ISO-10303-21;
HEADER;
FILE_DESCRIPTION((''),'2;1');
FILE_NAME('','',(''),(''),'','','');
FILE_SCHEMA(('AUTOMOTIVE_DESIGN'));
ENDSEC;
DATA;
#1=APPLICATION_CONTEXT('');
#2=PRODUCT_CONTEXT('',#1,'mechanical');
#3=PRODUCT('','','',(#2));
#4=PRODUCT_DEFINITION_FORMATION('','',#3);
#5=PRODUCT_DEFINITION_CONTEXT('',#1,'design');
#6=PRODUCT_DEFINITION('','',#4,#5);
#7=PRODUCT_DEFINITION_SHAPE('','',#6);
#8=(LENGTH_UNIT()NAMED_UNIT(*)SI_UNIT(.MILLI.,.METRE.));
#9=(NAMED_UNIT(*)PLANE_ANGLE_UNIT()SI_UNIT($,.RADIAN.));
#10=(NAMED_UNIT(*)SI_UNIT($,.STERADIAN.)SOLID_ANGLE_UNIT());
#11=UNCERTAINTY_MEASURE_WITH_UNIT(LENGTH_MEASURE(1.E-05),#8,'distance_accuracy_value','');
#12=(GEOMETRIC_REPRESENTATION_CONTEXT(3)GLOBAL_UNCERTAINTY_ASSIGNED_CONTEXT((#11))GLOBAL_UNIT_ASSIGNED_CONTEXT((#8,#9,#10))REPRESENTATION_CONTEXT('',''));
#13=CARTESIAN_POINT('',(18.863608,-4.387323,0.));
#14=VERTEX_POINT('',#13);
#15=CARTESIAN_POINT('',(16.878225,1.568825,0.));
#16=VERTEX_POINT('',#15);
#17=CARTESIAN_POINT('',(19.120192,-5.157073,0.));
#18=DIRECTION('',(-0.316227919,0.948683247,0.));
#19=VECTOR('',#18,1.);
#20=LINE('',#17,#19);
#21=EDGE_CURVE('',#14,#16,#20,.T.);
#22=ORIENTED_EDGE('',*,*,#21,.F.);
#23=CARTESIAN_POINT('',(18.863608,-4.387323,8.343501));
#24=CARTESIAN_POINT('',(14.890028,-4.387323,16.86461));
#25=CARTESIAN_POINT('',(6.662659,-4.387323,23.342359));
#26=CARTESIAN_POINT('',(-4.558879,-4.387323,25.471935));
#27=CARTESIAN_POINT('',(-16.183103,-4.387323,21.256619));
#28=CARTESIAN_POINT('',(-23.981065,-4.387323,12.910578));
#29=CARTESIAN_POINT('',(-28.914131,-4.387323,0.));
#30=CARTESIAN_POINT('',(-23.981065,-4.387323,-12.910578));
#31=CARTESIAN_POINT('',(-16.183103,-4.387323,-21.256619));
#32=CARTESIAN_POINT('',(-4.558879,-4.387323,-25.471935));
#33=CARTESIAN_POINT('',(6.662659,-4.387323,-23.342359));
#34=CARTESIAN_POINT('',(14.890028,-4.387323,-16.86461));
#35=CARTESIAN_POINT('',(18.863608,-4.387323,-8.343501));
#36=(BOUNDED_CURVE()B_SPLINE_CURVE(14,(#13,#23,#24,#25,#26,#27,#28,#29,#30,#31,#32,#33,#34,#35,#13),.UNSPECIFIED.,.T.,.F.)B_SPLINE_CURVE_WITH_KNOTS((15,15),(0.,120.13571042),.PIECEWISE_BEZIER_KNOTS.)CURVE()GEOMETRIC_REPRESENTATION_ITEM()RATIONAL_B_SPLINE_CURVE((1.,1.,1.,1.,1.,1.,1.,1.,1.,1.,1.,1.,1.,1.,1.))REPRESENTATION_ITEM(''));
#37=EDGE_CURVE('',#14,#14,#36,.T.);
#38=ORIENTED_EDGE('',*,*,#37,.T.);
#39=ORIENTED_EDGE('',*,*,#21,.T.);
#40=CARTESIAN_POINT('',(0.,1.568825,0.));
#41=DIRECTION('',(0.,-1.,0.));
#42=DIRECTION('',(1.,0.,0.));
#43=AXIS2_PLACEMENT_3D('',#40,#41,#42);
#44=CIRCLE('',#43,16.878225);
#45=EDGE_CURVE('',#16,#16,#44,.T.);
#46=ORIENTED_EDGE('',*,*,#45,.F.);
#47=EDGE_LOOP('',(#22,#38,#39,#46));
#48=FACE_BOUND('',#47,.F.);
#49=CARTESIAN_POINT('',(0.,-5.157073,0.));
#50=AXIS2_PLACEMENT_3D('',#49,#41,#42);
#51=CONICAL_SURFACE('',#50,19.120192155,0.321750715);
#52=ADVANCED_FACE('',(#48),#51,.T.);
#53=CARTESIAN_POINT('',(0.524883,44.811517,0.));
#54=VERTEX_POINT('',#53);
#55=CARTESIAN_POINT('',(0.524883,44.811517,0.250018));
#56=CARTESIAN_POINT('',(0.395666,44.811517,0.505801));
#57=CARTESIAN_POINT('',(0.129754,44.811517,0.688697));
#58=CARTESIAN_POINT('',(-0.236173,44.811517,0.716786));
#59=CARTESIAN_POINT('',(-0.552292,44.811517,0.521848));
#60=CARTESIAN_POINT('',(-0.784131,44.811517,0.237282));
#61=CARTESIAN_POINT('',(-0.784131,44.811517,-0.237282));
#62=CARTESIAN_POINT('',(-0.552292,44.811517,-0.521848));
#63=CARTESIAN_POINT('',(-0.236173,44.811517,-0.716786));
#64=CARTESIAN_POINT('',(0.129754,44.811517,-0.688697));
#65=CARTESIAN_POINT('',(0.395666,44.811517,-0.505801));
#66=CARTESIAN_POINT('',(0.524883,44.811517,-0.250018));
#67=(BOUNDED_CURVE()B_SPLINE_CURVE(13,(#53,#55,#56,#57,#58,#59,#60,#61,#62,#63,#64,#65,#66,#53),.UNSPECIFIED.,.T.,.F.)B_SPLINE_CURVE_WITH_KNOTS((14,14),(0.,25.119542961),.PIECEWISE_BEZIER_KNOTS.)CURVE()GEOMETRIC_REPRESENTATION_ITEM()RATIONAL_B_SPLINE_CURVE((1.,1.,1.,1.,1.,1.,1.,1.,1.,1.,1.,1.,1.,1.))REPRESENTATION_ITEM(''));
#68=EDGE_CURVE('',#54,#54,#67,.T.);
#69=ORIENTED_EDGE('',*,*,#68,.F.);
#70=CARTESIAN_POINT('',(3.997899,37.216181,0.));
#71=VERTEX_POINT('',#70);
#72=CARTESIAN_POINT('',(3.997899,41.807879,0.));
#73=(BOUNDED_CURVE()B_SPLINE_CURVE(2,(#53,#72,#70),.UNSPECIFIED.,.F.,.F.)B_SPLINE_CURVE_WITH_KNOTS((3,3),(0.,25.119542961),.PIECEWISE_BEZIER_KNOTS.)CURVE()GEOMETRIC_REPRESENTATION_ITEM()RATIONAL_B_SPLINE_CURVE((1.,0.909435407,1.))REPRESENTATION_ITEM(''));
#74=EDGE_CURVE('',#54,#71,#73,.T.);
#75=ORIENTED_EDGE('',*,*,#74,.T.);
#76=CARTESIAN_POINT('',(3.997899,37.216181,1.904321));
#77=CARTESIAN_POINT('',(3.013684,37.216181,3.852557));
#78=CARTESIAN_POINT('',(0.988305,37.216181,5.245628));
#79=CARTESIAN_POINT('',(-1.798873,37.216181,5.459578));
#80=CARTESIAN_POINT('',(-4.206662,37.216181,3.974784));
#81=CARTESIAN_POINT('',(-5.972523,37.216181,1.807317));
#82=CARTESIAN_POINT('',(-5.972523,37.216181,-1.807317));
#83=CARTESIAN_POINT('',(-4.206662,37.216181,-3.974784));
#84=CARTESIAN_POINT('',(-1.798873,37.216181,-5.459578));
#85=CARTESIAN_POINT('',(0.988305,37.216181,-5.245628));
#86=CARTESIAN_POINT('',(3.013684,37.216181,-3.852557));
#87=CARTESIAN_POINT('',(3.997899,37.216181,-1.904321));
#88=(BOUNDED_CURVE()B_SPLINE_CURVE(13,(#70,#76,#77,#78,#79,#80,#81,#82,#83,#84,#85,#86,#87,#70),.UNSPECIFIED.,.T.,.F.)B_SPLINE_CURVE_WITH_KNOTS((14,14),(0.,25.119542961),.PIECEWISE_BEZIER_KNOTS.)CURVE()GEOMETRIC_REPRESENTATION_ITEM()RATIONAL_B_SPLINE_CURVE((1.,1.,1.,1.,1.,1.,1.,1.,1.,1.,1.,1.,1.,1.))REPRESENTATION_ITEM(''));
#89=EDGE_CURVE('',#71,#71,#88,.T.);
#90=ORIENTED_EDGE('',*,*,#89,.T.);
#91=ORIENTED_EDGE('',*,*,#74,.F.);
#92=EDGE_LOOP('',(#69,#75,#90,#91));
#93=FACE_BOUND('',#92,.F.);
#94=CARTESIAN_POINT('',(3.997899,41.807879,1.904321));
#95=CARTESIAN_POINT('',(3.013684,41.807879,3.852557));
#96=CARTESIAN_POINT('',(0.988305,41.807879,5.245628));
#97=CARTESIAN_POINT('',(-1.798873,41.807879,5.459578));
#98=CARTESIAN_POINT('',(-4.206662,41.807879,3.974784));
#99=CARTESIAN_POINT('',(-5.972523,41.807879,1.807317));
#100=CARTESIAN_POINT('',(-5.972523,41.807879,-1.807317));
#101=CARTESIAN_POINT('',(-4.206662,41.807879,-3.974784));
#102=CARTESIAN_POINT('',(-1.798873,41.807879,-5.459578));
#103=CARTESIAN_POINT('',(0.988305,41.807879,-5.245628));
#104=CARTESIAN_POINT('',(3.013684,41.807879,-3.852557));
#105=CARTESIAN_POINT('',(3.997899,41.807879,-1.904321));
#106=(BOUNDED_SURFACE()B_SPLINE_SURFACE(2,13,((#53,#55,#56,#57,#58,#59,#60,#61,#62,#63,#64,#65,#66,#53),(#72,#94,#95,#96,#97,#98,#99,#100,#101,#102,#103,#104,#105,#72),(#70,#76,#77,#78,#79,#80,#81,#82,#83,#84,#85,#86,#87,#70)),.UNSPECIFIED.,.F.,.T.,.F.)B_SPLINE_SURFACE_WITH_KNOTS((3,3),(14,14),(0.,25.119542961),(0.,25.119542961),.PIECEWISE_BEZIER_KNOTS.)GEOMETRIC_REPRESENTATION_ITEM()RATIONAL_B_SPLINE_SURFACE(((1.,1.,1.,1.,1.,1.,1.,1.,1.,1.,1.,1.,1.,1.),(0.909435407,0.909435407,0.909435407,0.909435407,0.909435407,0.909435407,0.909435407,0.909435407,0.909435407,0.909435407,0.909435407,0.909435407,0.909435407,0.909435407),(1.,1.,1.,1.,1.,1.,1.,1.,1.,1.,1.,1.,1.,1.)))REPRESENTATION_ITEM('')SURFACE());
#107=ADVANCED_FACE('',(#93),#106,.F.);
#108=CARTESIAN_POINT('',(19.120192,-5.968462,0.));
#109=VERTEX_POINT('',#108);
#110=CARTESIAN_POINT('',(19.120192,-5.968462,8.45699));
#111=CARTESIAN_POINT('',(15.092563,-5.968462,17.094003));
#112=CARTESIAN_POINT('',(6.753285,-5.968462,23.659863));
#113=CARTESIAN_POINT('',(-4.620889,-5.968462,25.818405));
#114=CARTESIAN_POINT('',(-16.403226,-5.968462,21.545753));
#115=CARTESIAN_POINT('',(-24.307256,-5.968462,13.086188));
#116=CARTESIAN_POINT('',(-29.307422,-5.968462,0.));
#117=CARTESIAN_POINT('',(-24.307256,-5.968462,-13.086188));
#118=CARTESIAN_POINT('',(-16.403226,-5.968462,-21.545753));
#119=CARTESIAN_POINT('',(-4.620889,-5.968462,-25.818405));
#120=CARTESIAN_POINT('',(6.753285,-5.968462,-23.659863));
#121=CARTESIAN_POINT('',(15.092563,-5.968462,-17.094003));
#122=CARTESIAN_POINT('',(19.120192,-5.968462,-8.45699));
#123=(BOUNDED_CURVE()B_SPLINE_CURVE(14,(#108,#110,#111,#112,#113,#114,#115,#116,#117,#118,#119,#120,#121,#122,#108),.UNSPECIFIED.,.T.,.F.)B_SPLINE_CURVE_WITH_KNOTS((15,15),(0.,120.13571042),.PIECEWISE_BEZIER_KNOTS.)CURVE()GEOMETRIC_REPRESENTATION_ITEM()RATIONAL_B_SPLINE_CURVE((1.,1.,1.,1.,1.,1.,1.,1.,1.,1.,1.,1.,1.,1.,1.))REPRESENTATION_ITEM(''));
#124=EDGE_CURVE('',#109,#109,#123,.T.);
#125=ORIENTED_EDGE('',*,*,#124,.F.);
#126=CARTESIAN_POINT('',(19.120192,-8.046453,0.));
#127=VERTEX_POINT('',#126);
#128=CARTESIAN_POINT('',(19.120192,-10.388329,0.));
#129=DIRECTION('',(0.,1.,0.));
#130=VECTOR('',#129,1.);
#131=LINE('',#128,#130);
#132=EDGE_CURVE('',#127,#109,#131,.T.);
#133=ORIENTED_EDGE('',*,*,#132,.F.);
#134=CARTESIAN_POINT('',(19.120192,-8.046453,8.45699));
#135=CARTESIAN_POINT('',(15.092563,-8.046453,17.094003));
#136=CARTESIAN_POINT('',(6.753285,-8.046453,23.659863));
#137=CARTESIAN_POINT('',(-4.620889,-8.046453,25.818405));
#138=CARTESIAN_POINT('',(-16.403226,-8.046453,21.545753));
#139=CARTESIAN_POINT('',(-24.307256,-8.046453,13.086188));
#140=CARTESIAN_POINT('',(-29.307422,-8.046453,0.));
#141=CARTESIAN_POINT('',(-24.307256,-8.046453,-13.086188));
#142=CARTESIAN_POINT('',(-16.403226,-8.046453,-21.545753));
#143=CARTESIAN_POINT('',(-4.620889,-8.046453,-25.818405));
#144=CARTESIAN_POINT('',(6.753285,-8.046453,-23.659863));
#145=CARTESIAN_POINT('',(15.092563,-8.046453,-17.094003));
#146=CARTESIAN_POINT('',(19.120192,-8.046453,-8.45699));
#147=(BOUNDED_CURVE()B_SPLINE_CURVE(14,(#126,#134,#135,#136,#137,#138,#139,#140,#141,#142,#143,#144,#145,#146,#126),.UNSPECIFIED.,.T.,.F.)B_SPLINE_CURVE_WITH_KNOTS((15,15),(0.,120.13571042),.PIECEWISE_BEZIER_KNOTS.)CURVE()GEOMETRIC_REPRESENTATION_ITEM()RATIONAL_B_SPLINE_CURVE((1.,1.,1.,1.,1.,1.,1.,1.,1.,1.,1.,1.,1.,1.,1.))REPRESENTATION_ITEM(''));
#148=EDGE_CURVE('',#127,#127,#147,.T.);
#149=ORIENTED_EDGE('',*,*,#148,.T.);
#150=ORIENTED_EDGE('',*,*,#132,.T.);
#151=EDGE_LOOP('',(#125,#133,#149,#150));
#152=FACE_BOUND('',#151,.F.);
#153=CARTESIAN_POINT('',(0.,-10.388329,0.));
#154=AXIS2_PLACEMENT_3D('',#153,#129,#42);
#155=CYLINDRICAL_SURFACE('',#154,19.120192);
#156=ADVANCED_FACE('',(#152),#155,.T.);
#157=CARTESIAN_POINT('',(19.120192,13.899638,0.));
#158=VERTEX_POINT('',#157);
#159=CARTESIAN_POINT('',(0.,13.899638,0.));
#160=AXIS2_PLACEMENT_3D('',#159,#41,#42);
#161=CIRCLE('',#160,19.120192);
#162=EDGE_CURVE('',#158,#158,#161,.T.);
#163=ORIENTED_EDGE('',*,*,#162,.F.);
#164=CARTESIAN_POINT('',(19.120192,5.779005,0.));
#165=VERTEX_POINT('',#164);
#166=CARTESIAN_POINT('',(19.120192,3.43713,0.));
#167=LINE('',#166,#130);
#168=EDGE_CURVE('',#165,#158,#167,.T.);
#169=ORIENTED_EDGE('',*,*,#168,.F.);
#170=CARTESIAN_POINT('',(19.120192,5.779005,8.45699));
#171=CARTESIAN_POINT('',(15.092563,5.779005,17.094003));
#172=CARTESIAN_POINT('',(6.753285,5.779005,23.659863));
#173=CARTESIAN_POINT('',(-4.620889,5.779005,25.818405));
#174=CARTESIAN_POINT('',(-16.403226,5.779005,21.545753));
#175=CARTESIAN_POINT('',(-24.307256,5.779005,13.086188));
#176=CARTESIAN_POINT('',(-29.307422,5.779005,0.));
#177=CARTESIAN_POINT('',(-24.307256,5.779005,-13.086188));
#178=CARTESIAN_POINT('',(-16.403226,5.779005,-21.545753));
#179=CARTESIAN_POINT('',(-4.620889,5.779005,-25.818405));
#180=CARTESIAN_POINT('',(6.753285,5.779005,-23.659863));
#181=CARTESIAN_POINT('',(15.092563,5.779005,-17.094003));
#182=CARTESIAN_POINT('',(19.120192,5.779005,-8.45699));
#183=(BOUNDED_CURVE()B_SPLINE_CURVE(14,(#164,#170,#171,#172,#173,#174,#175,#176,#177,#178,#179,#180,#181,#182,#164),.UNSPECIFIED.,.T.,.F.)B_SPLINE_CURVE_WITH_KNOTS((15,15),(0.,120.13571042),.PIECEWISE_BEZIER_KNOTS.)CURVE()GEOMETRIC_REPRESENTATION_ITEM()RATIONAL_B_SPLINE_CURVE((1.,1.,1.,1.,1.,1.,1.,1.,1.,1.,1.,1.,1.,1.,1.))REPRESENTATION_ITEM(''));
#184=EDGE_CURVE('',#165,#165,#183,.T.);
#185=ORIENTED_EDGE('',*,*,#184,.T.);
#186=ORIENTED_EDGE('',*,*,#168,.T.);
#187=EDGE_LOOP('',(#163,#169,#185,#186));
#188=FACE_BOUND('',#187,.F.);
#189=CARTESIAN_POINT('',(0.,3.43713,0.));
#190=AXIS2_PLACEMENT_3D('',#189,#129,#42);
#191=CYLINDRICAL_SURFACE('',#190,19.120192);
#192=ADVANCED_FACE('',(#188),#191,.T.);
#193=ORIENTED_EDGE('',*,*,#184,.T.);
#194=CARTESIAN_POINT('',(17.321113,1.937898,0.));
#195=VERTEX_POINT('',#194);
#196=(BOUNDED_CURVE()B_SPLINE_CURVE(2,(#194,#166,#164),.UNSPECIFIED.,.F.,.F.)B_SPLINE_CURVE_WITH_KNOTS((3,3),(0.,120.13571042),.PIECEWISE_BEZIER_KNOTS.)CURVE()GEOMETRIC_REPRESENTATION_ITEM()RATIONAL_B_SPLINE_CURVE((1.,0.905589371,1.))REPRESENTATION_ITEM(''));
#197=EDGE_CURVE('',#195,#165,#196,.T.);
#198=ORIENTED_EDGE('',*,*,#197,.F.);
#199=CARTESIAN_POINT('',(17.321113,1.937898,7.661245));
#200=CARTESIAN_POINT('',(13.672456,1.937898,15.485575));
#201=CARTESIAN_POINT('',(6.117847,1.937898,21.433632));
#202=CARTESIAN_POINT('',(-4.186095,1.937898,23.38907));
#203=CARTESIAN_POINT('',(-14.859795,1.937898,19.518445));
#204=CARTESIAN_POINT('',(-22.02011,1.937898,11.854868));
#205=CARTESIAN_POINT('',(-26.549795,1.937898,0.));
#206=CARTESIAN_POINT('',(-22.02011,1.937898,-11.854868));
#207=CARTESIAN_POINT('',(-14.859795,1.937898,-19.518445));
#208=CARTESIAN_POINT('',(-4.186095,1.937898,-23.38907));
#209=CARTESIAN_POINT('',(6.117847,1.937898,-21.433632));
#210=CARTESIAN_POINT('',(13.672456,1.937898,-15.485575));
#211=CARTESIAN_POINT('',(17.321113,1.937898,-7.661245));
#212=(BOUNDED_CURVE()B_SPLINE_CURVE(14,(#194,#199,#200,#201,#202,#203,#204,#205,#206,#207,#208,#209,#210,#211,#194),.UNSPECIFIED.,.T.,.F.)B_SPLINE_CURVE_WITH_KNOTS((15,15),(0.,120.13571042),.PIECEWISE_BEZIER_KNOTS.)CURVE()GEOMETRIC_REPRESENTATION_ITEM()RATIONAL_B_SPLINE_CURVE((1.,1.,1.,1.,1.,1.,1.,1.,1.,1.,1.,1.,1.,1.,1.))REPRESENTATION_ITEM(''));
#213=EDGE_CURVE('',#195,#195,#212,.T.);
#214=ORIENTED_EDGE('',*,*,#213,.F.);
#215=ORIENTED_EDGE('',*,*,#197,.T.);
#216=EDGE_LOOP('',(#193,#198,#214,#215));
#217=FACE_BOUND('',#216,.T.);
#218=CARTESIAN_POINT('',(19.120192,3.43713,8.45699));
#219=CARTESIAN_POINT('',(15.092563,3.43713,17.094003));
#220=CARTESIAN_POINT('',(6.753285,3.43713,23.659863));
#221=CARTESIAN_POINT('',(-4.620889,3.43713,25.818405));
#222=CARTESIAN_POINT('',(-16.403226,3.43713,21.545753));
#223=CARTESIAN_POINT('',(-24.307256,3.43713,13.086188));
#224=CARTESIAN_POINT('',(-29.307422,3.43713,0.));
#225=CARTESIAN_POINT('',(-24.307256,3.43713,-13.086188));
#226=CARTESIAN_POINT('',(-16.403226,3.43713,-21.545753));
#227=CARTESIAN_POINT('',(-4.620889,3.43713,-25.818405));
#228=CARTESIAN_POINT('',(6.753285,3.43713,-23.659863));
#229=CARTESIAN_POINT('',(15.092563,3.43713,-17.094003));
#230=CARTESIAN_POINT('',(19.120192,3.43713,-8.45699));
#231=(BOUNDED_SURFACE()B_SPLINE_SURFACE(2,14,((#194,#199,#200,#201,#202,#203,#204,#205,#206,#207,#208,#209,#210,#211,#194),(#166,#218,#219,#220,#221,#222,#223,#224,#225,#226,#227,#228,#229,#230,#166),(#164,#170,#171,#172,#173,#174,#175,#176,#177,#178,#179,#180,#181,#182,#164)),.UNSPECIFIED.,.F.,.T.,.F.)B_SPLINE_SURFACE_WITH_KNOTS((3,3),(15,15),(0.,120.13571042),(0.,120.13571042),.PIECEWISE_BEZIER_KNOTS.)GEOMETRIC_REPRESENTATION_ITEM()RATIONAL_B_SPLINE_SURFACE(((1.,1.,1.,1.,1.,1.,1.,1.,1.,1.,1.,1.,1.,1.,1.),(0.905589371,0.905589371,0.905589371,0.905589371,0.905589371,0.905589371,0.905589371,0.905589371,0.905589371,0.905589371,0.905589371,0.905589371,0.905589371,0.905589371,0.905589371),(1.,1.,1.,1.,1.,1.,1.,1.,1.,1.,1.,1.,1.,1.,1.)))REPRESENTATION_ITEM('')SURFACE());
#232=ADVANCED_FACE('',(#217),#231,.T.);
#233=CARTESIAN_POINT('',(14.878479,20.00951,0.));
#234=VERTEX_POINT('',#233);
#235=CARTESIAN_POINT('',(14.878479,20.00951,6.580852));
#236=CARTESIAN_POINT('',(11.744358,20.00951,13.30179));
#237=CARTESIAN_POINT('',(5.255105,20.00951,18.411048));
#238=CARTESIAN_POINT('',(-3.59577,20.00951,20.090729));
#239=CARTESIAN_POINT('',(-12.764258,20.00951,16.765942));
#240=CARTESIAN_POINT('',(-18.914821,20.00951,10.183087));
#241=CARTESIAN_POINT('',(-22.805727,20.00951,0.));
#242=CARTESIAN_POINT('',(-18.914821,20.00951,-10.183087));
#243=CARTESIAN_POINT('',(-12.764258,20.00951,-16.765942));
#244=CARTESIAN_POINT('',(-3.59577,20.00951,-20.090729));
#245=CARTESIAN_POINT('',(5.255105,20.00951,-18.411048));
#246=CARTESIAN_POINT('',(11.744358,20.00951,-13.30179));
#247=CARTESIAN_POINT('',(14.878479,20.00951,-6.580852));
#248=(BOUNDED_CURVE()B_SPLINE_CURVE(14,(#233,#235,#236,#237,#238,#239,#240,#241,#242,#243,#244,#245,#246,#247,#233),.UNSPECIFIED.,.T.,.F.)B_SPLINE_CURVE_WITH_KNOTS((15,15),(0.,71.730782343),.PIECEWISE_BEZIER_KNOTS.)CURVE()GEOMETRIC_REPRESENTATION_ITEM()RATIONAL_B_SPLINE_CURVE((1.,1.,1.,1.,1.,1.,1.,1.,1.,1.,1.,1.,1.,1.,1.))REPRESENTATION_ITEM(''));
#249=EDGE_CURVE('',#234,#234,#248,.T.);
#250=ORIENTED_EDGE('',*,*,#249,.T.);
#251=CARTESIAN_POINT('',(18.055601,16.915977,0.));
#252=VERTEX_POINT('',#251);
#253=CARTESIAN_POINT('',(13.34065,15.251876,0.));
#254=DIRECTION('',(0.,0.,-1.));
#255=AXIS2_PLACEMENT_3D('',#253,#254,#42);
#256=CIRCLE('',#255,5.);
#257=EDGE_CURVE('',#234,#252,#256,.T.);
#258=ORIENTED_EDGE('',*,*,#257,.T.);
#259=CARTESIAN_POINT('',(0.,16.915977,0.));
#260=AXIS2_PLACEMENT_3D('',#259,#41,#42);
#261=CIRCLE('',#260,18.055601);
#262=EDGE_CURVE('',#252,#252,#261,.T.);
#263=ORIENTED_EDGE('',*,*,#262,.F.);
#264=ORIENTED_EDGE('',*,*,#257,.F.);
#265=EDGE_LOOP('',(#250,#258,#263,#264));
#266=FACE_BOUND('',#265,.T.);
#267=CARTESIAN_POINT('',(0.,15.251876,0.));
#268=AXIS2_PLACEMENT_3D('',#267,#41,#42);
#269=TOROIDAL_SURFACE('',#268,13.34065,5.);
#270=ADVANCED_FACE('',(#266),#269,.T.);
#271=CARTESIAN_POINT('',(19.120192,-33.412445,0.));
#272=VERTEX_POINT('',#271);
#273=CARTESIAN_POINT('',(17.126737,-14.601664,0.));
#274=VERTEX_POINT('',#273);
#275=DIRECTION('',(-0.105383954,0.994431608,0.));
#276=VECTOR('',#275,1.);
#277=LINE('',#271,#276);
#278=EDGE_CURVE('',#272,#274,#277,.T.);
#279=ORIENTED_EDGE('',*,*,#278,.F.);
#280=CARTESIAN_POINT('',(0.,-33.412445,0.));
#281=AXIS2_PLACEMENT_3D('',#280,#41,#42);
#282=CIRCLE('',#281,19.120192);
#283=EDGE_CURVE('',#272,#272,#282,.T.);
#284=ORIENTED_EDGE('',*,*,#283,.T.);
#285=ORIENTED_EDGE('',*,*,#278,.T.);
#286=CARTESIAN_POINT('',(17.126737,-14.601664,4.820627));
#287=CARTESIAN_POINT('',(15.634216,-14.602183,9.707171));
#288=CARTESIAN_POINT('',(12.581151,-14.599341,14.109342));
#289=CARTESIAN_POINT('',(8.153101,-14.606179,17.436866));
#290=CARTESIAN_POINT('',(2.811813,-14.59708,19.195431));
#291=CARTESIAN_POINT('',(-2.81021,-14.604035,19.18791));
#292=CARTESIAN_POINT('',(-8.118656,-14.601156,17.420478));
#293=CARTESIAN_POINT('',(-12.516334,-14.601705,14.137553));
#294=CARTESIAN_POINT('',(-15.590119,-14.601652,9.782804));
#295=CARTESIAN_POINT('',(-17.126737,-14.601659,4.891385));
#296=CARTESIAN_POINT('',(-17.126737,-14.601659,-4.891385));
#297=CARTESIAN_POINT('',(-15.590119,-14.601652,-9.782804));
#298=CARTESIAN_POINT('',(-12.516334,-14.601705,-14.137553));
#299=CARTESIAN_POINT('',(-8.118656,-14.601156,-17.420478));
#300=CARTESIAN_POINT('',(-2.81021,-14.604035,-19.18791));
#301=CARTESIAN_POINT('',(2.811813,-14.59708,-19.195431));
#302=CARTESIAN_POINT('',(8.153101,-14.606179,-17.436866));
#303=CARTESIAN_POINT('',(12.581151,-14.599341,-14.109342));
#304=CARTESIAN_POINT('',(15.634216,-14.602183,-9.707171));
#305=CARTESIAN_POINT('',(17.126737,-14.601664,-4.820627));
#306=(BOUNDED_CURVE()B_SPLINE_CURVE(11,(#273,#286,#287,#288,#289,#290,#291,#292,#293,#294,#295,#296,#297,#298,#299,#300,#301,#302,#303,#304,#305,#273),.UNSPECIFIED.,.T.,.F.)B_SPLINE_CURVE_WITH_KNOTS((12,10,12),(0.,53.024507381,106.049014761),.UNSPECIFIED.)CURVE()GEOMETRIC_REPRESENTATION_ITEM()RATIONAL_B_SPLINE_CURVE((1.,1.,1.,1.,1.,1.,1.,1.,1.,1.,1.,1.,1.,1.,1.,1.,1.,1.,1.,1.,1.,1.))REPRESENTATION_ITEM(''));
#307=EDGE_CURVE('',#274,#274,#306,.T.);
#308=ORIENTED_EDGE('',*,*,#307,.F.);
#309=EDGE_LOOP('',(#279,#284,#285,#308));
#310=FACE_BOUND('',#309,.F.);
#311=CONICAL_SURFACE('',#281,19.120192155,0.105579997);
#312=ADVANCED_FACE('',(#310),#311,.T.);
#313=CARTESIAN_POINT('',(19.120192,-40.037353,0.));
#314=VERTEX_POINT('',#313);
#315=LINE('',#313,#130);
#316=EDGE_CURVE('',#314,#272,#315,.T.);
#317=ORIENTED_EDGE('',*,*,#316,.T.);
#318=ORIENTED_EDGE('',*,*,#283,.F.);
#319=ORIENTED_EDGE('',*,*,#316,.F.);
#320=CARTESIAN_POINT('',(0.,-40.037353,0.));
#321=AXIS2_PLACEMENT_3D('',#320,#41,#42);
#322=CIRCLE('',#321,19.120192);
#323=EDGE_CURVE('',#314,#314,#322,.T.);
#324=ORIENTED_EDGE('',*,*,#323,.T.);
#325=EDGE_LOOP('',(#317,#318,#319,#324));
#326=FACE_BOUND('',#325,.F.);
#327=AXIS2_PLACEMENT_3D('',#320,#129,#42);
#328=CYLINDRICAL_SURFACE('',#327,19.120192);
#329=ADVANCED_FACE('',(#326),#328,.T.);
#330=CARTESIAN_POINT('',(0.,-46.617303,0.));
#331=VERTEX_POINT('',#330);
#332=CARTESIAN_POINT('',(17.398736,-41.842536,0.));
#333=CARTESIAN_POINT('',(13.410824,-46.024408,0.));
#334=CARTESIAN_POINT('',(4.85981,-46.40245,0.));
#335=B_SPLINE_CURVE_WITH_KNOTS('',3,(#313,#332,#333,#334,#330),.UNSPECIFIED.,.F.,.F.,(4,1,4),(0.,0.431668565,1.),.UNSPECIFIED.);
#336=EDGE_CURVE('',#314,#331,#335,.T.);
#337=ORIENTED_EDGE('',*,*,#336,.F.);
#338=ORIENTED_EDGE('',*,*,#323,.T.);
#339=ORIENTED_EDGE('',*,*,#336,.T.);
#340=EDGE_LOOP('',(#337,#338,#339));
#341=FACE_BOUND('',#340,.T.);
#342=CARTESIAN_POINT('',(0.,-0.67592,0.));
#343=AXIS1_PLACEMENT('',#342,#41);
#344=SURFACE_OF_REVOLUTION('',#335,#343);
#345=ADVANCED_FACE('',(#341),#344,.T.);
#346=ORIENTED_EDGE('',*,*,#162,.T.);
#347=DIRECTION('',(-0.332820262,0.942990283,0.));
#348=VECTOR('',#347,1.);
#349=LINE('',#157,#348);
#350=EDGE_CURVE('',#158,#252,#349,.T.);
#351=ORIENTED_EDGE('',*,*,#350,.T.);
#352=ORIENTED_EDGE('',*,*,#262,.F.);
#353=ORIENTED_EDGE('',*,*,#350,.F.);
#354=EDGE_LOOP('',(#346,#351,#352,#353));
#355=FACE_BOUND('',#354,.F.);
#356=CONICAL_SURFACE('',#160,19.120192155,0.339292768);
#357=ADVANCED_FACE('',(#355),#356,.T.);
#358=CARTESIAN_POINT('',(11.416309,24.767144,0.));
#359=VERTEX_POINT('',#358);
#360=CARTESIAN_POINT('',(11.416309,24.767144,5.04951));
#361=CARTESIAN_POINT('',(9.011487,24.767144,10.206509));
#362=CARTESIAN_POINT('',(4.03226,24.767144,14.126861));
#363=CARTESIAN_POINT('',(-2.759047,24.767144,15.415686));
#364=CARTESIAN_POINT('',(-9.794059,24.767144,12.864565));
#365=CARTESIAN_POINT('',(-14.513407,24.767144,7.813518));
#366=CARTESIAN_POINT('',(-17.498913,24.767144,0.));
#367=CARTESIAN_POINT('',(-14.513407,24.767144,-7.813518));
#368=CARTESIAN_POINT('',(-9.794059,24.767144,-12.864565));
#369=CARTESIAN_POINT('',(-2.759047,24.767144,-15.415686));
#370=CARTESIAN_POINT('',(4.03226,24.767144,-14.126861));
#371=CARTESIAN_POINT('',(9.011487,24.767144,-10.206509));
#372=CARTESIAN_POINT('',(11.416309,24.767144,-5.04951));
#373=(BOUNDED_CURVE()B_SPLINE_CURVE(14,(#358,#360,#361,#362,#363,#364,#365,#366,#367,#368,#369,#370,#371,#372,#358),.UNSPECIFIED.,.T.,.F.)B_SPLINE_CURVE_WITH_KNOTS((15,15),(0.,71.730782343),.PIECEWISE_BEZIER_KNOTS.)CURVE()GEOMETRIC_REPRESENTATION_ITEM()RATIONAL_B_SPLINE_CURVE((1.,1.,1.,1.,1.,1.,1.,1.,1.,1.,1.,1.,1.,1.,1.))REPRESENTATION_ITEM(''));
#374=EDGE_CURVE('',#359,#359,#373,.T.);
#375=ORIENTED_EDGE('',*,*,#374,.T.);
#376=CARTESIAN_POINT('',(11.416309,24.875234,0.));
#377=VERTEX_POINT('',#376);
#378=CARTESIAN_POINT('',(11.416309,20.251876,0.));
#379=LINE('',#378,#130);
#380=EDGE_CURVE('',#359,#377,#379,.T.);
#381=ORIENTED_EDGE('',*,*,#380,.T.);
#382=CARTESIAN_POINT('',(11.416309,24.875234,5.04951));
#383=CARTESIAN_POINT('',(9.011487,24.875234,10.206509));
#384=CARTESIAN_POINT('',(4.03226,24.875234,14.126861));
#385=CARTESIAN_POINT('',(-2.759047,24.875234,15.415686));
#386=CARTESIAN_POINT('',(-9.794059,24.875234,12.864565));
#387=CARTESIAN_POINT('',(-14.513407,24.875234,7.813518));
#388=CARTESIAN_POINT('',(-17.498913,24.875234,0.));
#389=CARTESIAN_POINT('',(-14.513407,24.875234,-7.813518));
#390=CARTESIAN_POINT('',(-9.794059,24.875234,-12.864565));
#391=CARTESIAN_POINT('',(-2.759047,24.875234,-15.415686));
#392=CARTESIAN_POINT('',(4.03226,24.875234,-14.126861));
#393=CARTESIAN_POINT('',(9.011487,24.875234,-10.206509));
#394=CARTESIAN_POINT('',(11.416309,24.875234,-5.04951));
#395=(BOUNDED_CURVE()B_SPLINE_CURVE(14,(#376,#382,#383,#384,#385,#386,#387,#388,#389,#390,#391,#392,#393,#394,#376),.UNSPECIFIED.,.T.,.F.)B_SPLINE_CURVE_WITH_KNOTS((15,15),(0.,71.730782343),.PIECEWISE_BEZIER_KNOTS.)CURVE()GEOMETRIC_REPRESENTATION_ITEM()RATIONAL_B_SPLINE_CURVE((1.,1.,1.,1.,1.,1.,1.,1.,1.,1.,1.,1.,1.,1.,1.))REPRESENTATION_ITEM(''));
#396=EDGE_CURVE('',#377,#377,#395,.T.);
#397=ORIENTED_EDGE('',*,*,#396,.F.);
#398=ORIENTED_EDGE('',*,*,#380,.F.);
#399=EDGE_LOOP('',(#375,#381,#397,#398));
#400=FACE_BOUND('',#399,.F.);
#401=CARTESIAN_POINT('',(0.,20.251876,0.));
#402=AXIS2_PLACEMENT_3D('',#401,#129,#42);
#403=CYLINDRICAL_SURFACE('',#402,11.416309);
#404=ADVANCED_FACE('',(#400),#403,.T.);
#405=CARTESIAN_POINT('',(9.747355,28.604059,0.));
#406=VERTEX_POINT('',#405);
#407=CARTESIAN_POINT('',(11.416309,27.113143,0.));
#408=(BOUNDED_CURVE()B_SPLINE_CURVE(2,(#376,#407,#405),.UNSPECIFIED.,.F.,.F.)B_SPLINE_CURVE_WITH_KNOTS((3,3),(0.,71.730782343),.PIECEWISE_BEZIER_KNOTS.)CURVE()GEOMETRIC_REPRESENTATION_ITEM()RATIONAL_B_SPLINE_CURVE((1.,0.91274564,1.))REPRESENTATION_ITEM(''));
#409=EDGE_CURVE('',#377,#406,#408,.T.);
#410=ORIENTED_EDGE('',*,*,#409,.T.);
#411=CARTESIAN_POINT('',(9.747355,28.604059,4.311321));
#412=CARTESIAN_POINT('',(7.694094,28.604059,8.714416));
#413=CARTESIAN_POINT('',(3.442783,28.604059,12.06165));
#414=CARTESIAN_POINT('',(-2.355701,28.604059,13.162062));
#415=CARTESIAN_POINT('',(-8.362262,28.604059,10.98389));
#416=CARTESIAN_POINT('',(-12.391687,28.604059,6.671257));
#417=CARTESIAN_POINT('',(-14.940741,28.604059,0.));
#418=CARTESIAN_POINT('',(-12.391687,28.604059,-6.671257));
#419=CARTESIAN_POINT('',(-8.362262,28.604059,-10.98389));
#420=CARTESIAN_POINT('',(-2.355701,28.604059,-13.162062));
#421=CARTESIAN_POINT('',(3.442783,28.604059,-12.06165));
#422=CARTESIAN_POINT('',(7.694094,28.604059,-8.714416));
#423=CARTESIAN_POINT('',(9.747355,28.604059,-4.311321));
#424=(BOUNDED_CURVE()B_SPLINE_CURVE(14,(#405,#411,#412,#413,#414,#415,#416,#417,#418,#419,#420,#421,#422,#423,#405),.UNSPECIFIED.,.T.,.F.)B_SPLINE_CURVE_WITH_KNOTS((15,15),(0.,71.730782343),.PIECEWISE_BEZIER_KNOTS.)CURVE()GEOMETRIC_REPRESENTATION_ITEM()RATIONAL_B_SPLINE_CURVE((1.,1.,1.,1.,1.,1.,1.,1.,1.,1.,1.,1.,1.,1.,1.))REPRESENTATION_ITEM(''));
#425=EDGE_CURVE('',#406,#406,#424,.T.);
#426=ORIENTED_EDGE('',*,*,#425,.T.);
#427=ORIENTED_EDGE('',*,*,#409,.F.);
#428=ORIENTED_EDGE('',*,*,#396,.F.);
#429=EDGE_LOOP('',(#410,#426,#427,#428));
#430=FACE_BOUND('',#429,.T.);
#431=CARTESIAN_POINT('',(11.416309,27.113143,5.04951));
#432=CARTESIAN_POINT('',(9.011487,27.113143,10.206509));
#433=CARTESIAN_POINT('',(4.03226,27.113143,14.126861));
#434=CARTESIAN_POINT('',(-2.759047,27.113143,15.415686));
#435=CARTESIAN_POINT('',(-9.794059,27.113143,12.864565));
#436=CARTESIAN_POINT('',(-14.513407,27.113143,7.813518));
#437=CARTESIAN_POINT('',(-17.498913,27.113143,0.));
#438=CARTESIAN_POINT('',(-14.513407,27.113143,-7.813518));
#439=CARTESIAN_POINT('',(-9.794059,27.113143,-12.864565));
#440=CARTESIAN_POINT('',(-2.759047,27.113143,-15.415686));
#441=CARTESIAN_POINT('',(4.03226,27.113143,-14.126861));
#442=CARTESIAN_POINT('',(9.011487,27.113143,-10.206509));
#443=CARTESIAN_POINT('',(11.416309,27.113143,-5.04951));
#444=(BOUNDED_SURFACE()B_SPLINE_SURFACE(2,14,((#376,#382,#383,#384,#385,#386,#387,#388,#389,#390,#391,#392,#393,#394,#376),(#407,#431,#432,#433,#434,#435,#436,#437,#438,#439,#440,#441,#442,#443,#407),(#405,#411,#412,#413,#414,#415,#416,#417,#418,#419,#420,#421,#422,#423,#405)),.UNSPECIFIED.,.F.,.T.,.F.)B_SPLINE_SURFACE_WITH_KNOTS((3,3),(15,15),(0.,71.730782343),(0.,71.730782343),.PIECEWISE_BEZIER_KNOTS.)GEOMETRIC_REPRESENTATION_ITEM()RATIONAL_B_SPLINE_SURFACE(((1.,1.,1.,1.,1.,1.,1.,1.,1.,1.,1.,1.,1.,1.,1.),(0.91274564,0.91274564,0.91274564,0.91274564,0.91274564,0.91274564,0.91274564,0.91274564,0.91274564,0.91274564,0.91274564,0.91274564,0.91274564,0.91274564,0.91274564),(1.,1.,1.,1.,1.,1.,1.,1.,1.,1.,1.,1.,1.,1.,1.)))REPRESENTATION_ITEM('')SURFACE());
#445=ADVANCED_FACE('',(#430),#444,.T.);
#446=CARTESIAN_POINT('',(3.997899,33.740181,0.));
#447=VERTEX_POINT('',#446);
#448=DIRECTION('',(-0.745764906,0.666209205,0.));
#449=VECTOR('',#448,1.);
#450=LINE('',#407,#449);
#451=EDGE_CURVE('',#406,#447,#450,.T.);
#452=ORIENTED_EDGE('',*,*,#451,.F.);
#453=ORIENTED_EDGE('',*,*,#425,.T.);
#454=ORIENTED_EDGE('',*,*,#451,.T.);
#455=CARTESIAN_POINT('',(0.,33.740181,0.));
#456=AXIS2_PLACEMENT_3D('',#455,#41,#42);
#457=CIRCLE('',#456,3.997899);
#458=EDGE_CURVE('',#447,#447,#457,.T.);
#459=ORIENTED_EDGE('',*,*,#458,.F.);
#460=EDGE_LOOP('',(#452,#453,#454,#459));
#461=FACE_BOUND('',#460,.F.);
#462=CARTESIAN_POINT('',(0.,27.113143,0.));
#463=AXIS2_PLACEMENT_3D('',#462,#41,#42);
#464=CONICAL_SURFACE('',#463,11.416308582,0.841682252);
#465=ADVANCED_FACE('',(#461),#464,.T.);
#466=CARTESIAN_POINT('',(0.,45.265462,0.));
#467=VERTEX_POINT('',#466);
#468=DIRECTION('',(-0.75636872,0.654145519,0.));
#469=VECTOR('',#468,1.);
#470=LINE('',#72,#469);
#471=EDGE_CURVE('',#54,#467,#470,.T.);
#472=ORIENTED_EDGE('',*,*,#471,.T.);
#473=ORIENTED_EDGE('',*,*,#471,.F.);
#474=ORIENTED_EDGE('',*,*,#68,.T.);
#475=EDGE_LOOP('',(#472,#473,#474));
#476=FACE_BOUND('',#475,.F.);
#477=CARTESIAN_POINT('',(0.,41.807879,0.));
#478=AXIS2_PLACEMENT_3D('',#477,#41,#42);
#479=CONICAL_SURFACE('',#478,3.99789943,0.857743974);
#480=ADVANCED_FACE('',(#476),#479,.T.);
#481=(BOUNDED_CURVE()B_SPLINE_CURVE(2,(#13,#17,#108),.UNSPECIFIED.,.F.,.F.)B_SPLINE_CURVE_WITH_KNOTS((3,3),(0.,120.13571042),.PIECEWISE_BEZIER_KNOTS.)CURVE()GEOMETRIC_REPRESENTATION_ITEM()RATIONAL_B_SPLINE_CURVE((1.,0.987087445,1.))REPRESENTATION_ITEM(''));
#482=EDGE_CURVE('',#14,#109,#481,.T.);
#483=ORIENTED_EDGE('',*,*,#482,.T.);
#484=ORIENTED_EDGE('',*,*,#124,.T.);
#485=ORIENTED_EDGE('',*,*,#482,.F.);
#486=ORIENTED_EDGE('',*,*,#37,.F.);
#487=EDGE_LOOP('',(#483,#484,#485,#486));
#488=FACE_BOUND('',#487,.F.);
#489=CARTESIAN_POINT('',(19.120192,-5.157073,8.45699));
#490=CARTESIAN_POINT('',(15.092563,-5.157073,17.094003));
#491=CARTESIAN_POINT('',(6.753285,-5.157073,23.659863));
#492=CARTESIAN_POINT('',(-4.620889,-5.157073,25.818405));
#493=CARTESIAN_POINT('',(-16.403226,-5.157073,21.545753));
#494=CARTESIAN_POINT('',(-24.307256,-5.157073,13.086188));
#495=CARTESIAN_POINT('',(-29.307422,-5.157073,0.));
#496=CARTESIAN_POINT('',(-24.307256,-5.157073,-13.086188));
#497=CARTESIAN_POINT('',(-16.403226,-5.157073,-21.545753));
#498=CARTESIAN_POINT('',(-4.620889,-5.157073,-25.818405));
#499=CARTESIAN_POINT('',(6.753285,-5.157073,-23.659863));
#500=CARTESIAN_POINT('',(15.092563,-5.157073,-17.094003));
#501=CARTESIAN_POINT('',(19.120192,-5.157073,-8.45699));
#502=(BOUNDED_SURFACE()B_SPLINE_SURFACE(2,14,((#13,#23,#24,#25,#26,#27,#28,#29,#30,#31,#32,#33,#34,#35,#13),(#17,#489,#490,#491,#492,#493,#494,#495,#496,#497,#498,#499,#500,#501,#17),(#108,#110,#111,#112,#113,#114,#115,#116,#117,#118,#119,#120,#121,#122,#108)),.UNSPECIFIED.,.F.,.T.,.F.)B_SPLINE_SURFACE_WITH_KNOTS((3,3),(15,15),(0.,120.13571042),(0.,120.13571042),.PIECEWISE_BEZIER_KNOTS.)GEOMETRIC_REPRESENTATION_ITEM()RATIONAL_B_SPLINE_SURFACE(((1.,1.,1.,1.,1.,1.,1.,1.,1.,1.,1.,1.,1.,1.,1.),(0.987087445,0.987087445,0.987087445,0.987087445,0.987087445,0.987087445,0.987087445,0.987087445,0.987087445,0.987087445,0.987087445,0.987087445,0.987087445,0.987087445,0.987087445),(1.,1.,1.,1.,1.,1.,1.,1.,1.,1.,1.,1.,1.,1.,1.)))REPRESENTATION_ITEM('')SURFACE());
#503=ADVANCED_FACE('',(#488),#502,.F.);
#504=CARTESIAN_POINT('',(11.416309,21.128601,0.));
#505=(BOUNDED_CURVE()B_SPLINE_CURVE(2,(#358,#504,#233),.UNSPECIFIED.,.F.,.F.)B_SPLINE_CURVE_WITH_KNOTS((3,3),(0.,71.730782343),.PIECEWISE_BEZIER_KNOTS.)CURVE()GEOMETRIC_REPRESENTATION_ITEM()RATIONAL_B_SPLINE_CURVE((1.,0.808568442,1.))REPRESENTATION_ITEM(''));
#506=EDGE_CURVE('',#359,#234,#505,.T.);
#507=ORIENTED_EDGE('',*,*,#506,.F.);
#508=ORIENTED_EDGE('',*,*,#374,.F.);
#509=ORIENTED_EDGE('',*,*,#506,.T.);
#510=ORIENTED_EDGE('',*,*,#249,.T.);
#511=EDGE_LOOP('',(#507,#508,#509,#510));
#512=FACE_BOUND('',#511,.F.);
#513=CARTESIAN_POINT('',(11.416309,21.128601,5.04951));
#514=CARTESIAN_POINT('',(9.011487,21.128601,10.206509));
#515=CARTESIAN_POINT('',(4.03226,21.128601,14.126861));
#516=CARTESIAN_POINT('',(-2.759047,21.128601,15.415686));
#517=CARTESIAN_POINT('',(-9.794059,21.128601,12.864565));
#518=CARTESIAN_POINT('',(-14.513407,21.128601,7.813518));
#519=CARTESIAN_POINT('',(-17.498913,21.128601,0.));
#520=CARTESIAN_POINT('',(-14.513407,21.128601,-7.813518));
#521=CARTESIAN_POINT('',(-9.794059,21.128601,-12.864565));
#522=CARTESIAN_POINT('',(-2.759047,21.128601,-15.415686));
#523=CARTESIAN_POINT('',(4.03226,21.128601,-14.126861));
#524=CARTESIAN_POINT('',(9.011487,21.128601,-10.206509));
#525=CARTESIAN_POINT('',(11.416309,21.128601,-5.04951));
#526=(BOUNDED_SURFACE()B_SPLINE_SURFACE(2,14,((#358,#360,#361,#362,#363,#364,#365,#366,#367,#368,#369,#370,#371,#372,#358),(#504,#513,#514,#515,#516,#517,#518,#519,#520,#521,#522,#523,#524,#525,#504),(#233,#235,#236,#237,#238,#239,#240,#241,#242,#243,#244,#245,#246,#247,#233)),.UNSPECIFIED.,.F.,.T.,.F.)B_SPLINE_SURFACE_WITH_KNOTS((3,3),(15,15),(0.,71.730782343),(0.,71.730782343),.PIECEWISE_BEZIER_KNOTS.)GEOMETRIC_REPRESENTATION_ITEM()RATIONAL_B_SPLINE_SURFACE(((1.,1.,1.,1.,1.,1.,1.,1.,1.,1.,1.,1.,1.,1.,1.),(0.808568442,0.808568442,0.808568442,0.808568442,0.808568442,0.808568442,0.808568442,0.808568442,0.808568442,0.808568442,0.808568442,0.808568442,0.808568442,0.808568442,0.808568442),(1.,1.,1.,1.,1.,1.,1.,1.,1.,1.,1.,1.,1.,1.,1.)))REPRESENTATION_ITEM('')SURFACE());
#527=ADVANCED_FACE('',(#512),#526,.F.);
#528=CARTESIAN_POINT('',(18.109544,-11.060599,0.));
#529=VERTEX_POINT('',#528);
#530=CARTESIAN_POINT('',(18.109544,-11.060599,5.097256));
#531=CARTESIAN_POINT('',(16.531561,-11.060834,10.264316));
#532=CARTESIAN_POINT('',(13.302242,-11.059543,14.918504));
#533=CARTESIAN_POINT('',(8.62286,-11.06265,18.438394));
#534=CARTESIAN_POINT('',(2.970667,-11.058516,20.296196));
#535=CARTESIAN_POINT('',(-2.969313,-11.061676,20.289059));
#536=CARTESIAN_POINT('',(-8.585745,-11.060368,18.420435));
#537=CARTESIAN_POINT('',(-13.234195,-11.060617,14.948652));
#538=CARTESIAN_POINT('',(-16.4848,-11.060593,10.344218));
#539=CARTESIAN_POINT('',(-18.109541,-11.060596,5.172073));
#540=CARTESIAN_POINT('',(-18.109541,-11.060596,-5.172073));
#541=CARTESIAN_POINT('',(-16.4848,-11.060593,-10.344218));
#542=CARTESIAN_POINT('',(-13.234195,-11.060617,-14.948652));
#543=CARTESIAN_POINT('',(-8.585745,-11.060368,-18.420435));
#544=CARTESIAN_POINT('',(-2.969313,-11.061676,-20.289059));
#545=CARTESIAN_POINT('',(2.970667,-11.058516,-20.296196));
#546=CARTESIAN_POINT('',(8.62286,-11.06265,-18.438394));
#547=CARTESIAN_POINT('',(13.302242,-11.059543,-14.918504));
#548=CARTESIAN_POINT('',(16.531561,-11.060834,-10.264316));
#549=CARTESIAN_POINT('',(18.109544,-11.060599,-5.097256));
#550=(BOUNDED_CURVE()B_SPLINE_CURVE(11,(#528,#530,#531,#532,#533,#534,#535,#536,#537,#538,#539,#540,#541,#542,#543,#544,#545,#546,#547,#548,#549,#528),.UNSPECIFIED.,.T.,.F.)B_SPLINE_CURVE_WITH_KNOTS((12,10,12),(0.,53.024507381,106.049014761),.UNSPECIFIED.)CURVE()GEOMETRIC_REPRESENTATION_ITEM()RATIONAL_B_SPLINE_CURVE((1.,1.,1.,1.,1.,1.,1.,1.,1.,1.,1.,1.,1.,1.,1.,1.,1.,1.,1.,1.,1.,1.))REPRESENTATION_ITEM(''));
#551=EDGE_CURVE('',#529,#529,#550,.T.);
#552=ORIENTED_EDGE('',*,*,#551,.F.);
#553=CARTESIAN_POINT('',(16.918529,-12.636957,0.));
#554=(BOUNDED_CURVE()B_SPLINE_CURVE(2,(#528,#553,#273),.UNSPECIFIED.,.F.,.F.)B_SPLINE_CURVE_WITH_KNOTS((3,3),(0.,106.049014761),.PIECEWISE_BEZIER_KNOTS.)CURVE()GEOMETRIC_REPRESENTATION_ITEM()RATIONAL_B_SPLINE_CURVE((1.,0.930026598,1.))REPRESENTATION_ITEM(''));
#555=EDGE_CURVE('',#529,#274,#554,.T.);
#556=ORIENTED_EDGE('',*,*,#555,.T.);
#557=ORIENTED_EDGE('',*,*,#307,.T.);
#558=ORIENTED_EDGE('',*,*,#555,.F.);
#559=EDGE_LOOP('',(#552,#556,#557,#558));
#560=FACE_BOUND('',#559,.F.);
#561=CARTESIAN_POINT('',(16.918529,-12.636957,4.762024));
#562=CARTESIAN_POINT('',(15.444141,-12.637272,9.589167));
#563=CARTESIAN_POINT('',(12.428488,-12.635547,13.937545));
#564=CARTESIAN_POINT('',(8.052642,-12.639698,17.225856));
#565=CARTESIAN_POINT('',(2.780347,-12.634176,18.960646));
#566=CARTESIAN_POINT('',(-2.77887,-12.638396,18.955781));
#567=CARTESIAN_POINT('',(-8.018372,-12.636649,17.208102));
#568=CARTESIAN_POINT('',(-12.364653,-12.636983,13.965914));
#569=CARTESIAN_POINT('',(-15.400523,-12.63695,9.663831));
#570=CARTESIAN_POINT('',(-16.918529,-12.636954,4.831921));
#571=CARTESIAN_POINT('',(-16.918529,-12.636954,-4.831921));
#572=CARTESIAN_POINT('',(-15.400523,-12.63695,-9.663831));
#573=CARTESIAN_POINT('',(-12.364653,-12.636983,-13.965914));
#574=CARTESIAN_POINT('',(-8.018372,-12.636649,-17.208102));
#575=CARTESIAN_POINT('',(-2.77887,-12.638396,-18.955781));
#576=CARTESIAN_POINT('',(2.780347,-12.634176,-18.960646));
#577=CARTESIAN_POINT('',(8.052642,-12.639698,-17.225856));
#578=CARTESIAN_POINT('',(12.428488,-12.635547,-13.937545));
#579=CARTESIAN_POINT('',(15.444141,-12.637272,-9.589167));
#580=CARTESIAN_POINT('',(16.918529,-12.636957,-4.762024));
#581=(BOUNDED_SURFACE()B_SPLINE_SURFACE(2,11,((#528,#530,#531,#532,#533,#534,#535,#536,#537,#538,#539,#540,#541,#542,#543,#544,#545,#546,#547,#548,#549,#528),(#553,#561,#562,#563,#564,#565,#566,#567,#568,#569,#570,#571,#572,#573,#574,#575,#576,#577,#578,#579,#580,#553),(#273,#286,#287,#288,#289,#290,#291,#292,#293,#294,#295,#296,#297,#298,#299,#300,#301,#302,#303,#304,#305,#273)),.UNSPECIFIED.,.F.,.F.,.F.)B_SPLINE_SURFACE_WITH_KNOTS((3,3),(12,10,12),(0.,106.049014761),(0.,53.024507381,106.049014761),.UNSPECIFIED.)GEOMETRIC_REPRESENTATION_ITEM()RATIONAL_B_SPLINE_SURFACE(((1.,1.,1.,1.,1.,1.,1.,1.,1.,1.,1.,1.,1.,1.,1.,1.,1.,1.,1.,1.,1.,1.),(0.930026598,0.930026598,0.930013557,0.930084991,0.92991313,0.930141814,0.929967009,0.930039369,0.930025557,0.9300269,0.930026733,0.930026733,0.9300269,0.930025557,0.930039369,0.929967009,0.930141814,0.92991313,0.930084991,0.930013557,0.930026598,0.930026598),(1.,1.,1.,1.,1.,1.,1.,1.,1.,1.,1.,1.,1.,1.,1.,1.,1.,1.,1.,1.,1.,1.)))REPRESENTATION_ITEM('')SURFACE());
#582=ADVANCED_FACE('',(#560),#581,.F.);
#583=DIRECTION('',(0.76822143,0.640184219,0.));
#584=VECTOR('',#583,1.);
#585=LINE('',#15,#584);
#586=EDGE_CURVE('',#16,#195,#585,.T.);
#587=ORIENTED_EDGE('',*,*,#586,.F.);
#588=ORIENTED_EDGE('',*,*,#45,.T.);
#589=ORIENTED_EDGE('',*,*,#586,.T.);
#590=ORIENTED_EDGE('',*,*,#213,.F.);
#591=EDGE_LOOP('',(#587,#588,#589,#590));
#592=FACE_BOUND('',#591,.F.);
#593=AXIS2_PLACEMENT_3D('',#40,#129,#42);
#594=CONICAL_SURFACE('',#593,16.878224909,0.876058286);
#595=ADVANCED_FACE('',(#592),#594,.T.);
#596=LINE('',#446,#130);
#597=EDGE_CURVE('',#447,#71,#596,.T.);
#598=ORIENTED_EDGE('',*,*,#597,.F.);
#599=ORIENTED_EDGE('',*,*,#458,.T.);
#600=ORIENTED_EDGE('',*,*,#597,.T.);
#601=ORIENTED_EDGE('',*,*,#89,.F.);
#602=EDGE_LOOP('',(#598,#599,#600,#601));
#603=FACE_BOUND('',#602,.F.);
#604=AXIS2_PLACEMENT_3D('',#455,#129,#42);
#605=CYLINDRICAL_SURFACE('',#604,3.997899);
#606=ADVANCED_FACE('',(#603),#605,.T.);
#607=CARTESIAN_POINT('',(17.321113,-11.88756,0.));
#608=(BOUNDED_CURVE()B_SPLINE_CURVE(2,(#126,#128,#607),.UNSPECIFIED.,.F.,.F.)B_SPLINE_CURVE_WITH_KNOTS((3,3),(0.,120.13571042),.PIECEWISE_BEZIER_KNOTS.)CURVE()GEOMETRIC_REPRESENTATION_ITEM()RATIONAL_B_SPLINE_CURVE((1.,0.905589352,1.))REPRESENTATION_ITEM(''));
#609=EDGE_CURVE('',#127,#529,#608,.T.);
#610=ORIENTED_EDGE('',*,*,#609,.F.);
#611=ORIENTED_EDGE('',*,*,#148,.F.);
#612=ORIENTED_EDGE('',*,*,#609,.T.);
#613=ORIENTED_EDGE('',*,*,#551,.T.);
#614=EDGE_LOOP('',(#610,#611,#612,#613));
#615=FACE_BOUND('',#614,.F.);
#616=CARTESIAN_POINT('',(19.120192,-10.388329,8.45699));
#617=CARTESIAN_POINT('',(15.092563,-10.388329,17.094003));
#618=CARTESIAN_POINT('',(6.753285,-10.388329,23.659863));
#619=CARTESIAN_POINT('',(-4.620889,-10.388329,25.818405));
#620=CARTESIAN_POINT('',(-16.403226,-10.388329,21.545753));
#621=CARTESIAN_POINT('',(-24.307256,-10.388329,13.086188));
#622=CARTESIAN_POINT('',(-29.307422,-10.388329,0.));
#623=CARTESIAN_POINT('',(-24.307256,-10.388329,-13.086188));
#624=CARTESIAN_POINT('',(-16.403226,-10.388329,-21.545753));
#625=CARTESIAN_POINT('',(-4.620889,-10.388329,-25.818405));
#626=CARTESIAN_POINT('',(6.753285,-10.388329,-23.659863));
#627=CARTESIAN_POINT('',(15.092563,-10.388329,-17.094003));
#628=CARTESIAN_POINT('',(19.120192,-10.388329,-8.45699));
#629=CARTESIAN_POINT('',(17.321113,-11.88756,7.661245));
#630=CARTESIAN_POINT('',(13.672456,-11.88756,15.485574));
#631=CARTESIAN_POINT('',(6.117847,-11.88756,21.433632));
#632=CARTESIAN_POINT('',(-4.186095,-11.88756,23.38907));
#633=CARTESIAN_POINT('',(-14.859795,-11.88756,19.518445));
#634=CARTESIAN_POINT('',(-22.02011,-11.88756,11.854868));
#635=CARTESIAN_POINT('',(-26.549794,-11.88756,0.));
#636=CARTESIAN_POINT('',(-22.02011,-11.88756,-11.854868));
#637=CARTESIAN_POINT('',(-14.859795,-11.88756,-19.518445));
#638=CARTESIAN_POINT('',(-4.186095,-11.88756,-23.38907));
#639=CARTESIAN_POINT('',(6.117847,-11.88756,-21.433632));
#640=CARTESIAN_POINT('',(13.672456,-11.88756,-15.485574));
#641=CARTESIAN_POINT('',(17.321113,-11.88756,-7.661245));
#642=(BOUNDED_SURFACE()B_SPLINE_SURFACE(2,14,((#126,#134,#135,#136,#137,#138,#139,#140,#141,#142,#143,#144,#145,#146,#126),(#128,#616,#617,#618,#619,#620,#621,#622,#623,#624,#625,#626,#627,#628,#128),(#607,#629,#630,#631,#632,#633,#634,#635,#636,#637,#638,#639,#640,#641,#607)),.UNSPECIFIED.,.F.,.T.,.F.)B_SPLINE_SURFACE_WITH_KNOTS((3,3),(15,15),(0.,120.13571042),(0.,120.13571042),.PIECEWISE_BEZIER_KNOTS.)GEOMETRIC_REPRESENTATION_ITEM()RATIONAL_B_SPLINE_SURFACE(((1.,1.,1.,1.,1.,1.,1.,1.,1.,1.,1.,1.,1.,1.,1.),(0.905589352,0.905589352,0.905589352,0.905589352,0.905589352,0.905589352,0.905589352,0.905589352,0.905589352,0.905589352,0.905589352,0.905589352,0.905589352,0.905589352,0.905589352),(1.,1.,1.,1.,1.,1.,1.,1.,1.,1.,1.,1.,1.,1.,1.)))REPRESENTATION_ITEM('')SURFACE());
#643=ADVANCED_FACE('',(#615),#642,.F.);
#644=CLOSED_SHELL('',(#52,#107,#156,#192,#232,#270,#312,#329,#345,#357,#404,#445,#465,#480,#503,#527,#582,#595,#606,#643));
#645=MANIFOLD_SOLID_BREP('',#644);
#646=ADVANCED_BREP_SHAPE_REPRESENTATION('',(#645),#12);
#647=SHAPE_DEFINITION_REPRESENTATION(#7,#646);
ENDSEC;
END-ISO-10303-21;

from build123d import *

# Parameters (mm, degrees)
F2_R = 10.0418427949
F3_R = 5
F4_R = 5
F5_R = 5
F6_R = 5
F7_R = 5
F8_R = 5
F9_R = 5


with BuildPart() as f1:
    # F0 (on Top) → F1 (revolve)
    with BuildSketch(Plane.XY):
        with BuildLine():
            Line((3.9978994305, 41.8078787625), (0, 45.2654622495))
            Line((0, 45.2654622495), (0, -46.6173030436))
            add(Edge.make_bspline(
                [(19.1201921552, -40.0373525918), (17.3987358712, -41.8425355299), (13.410823789, -46.0244081204), (4.8598099626, -46.4024499742), (0, -46.6173030436)],
                knots=[0, 0, 0, 0, 0.4316685645, 1, 1, 1, 1], degree=3))
            Line((19.1201921552, -40.0373525918), (19.1201921552, -33.4124453366))
            Line((19.1201921552, -33.4124453366), (16.8782249093, -12.2566334903))
            Line((16.8782249093, -12.2566334903), (19.1201921552, -10.3883286938))
            Line((19.1201921552, -10.3883286938), (19.1201921552, -5.157073494))
            Line((19.1201921552, -5.157073494), (16.8782249093, 1.5688246349))
            Line((16.8782249093, 1.5688246349), (19.1201921552, 3.4371297807))
            Line((19.1201921552, 3.4371297807), (19.1201921552, 10.910349898))
            Line((19.1201921552, 10.910349898), (19.1201921552, 13.8996383175))
            Line((19.1201921552, 13.8996383175), (16.8782249093, 20.2518757433))
            Line((16.8782249093, 20.2518757433), (11.4163085818, 20.2518757433))
            Line((11.4163085818, 20.2518757433), (11.4163085818, 22.2149007022))
            Line((11.4163085818, 22.2149007022), (11.4163085818, 27.1131433547))
            Line((11.4163085818, 27.1131433547), (3.9978994305, 33.7401814759))
            Line((3.9978994305, 33.7401814759), (3.9978994305, 41.8078787625))
        make_face()
    revolve(axis=Axis((0, -0.675920397, 0), (0, -1, 0)))

    # F2
    f2_edges = [f1.edges().sort_by_distance(p)[0] for p in [
        (-3.997899, 41.807879, 0),
        (1.99895, 43.536671, 0),
    ]]
    fillet(f2_edges, radius=F2_R)

    # F3
    f3_edges = [f1.edges().sort_by_distance(p)[0] for p in [
        (-16.878225, 20.251876, 0),
    ]]
    fillet(f3_edges, radius=F3_R)

    # F4
    f4_edges = [f1.edges().sort_by_distance(p)[0] for p in [
        (-19.120192, -5.157073, 0),
    ]]
    fillet(f4_edges, radius=F4_R)

    # F5
    f5_edges = [f1.edges().sort_by_distance(p)[0] for p in [
        (-11.416309, 27.113143, 0),
    ]]
    fillet(f5_edges, radius=F5_R)

    # F6
    f6_edges = [f1.edges().sort_by_distance(p)[0] for p in [
        (-11.416309, 20.251876, 0),
    ]]
    fillet(f6_edges, radius=F6_R)

    # F7
    f7_edges = [f1.edges().sort_by_distance(p)[0] for p in [
        (-19.120192, -10.388329, 0),
    ]]
    fillet(f7_edges, radius=F7_R)

    # F8
    f8_edges = [f1.edges().sort_by_distance(p)[0] for p in [
        (-16.878225, -12.256633, 0),
    ]]
    fillet(f8_edges, radius=F8_R)

    # F9
    f9_edges = [f1.edges().sort_by_distance(p)[0] for p in [
        (-19.120192, 3.43713, 0),
    ]]
    fillet(f9_edges, radius=F9_R)


solid = f1.part
